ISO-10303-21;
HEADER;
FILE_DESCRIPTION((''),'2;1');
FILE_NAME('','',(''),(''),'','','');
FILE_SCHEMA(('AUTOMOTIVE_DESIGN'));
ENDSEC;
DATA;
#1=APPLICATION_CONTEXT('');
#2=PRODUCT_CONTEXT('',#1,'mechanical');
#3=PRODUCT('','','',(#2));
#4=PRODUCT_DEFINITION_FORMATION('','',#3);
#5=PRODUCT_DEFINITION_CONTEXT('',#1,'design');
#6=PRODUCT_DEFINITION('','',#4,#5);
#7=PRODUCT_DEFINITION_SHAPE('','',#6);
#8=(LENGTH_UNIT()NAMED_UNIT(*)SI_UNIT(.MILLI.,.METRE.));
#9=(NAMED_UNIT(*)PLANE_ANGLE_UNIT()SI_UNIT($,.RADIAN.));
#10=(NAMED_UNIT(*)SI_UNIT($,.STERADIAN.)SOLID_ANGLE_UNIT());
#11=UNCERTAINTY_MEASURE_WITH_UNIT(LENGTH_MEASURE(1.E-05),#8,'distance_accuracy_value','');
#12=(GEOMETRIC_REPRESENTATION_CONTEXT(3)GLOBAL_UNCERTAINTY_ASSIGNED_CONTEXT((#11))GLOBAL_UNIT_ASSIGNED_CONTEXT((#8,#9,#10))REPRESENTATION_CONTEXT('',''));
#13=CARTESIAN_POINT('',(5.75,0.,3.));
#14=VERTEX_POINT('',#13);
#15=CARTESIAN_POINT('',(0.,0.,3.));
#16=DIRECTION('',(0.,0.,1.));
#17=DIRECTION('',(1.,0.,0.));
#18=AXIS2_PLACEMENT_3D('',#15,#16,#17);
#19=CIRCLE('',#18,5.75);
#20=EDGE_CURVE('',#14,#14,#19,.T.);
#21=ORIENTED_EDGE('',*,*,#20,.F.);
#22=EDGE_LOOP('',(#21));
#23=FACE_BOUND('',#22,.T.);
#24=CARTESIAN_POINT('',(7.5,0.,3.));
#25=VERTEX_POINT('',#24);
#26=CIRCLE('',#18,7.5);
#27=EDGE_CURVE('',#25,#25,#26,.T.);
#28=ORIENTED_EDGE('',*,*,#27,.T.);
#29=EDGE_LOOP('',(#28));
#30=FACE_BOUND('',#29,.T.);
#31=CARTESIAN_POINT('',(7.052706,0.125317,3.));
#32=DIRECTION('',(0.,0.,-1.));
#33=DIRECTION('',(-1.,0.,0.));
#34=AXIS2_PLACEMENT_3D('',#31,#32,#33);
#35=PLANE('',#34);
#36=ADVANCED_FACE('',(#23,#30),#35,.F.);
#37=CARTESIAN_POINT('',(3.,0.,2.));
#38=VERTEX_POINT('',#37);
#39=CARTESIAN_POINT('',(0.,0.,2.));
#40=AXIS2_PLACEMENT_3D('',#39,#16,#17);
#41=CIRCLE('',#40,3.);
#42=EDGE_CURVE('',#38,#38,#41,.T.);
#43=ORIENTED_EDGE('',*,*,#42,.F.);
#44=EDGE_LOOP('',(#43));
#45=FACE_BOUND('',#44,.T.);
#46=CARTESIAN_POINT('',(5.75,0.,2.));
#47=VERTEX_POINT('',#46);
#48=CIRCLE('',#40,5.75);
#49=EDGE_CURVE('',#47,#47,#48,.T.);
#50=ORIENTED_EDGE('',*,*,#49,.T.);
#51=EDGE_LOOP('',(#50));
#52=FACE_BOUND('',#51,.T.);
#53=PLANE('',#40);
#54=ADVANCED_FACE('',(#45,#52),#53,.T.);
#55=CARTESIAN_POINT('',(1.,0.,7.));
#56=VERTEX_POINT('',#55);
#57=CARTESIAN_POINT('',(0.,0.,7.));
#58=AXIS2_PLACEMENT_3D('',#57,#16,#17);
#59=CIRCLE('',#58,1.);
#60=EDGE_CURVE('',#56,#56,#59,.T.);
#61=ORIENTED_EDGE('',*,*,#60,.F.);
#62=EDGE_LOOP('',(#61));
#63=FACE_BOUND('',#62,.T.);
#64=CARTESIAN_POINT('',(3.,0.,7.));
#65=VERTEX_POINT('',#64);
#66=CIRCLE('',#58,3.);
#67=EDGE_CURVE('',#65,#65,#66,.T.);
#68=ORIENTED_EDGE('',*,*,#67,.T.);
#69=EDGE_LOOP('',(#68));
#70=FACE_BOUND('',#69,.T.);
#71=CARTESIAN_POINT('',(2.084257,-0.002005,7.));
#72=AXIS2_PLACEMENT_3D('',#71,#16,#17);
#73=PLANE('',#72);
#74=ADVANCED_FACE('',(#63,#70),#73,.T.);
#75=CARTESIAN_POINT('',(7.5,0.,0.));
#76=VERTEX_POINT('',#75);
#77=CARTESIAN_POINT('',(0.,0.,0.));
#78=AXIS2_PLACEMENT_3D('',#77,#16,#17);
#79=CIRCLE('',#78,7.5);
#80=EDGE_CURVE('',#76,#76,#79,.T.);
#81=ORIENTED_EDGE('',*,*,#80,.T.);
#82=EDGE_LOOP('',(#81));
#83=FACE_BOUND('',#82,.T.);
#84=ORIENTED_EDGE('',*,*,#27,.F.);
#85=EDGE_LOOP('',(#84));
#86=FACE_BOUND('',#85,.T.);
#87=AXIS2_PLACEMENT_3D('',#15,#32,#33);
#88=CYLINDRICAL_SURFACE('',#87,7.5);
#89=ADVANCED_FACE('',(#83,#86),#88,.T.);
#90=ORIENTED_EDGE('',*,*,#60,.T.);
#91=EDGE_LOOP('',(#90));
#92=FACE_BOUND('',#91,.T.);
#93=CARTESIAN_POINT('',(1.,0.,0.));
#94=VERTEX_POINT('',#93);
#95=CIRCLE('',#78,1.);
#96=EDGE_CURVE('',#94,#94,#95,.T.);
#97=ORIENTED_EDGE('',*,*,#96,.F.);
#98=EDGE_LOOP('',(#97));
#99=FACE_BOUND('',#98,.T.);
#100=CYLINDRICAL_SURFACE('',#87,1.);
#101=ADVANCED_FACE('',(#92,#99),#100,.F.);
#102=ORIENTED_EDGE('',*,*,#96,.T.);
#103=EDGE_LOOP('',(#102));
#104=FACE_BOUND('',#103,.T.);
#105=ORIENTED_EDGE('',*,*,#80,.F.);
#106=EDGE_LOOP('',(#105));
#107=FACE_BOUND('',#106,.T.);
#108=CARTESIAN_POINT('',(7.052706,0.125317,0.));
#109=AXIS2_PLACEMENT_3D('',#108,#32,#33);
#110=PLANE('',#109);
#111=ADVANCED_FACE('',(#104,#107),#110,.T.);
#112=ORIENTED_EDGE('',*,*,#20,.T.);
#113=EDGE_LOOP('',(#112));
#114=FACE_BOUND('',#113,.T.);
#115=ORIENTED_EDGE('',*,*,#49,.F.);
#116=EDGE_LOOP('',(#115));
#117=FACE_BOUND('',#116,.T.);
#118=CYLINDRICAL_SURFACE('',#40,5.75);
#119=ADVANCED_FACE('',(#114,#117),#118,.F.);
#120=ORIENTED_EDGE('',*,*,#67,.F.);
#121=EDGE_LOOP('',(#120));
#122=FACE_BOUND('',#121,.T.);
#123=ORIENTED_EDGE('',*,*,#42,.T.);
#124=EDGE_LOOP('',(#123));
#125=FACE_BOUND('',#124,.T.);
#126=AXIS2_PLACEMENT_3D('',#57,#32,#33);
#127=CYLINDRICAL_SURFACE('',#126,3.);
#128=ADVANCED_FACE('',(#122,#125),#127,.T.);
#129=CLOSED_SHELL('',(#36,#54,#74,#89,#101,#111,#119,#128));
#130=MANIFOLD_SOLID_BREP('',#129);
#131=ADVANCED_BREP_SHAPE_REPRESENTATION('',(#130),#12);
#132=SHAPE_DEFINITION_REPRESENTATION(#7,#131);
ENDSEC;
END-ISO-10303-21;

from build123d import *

# Parameters (mm, degrees)
ESQUISSE1_R             = 1
BOSS_EXTRU_1_DEPTH      = 3
ESQUISSE2_R             = 5.75
ENL_V_MAT_EXTRU_1_DEPTH = 1
ESQUISSE3_R             = 1
BOSS_EXTRU_2_DEPTH      = 5
BOSS_EXTRU_3_START      = -3
ESQUISSE4_R             = 7.5
ESQUISSE4_R_2           = 5.75
BOSS_EXTRU_3_DEPTH      = 3
BOSS_EXTRU_4_START      = -5
ESQUISSE5_R             = 3
ESQUISSE5_R_2           = 1
BOSS_EXTRU_4_DEPTH      = 5


with BuildPart() as part:
    # Esquisse1 → Boss.-Extru.1 (new body)
    with BuildSketch(Plane.XY):
        with BuildLine():
            ThreePointArc((7.491868518, 0.349150543), (7.48109955, 0.532117964), (7.465862795, 0.714767599))
            add(Edge.make_bspline(
                [(6.511775734, 0.931053619), (6.54533459, 0.935851864), (6.691230758, 0.932883331), (6.92755526, 0.897904294), (7.210754579, 0.816287714), (7.382633754, 0.750372838), (7.465862795, 0.714767599)],
                knots=[0, 0, 0, 0, 0.101700454, 0.434977009, 0.714423103, 0.984887496, 0.984887496, 0.984887496, 0.984887496], degree=3))
            ThreePointArc((6.511775734, 0.931053619), (6.361956751, 0.966352964), (6.279971624, 1.096622724))
            ThreePointArc((6.279971624, 1.096622724), (6.268309408, 1.161431083), (6.255978398, 1.226115524))
            ThreePointArc((6.255978398, 1.226115524), (6.285849036, 1.377110609), (6.413075806, 1.463742704))
            add(Edge.make_bspline(
                [(6.413075806, 1.463742704), (6.44612601, 1.471286197), (6.581273617, 1.526328257), (6.789378175, 1.643653855), (7.024536913, 1.821315017), (7.161390753, 1.944433854), (7.226338428, 2.00749419)],
                knots=[0, 0, 0, 0, 0.101700454, 0.434977009, 0.714423103, 0.984887496, 0.984887496, 0.984887496, 0.984887496], degree=3))
            ThreePointArc((7.226338428, 2.00749419), (7.175125379, 2.183477914), (7.119627274, 2.358157645))
            add(Edge.make_bspline(
                [(6.141333, 2.356716579), (6.172982756, 2.36886207), (6.315881563, 2.398432916), (6.554064484, 2.416918025), (6.848324803, 2.40036552), (7.030562047, 2.374349982), (7.119627274, 2.358157645)],
                knots=[0, 0, 0, 0, 0.101700454, 0.434977009, 0.714423103, 0.984887496, 0.984887496, 0.984887496, 0.984887496], degree=3))
            ThreePointArc((6.141333, 2.356716579), (5.987415449, 2.357793036), (5.878498112, 2.466553254))
            ThreePointArc((5.878498112, 2.466553254), (5.852707075, 2.527141645), (5.826291587, 2.587460404))
            ThreePointArc((5.826291587, 2.587460404), (5.821813738, 2.741316569), (5.926573213, 2.854087236))
            add(Edge.make_bspline(
                [(5.926573213, 2.854087236), (5.957116194, 2.86879596), (6.076627358, 2.952531173), (6.253406899, 3.113222794), (6.443136388, 3.338757362), (6.549162498, 3.489242196), (6.598449554, 3.565173695)],
                knots=[0, 0, 0, 0, 0.101700454, 0.434977009, 0.714423103, 0.984887496, 0.984887496, 0.984887496, 0.984887496], degree=3))
            ThreePointArc((6.598449554, 3.565173695), (6.50936046, 3.725349165), (6.416383912, 3.88329982))
            add(Edge.make_bspline(
                [(5.462938185, 3.664203929), (5.49109179, 3.683087641), (5.623827693, 3.743715059), (5.851925548, 3.814737394), (6.142491424, 3.864078976), (6.325948603, 3.879267303), (6.416383912, 3.88329982)],
                knots=[0, 0, 0, 0, 0.101700454, 0.434977009, 0.714423103, 0.984887496, 0.984887496, 0.984887496, 0.984887496], degree=3))
            ThreePointArc((5.462938185, 3.664203929), (5.312640134, 3.631003519), (5.182252157, 3.712800504))
            ThreePointArc((5.182252157, 3.712800504), (5.14362557, 3.766130772), (5.104450187, 3.819059215))
            ThreePointArc((5.104450187, 3.819059215), (5.06584839, 3.96806147), (5.142887492, 4.101315917))
            add(Edge.make_bspline(
                [(5.142887492, 4.101315917), (5.169391697, 4.122452315), (5.267273629, 4.230681847), (5.403863688, 4.426681742), (5.5386501, 4.688780471), (5.608531889, 4.859085365), (5.639686867, 4.944080505)],
                knots=[0, 0, 0, 0, 0.101700454, 0.434977009, 0.714423103, 0.984887496, 0.984887496, 0.984887496, 0.984887496], degree=3))
            ThreePointArc((5.639686867, 4.944080505), (5.517189028, 5.080415852), (5.391396269, 5.213717126))
            add(Edge.make_bspline(
                [(4.510608839, 4.787952794), (4.533854553, 4.812627817), (4.64977162, 4.901271697), (4.856346629, 5.021269902), (5.128647877, 5.134031378), (5.30412568, 5.189661964), (5.391396269, 5.213717126)],
                knots=[0, 0, 0, 0, 0.101700454, 0.434977009, 0.714423103, 0.984887496, 0.984887496, 0.984887496, 0.984887496], degree=3))
            ThreePointArc((4.510608839, 4.787952794), (4.37146686, 4.722140325), (4.22614644, 4.772872434))
            ThreePointArc((4.22614644, 4.772872434), (4.176621201, 4.816270376), (4.12665034, 4.85915445))
            ThreePointArc((4.12665034, 4.85915445), (4.05586025, 4.995831199), (4.101315917, 5.142887492))
            add(Edge.make_bspline(
                [(4.101315917, 5.142887492), (4.122452315, 5.169391697), (4.193796806, 5.296688467), (4.283348187, 5.518168384), (4.356432769, 5.803688548), (4.386666071, 5.985273704), (4.398126732, 6.075070473)],
                knots=[0, 0, 0, 0, 0.101700454, 0.434977009, 0.714423103, 0.984887496, 0.984887496, 0.984887496, 0.984887496], degree=3))
            ThreePointArc((4.398126732, 6.075070473), (4.248362699, 6.180729275), (4.096061504, 6.282696886))
            add(Edge.make_bspline(
                [(3.332098731, 5.671613712), (3.349270916, 5.700842739), (3.442556582, 5.813058106), (3.617250211, 5.976014969), (3.85763251, 6.146542008), (4.016331748, 6.239825304), (4.096061504, 6.282696886)],
                knots=[0, 0, 0, 0, 0.101700454, 0.434977009, 0.714423103, 0.984887496, 0.984887496, 0.984887496, 0.984887496], degree=3))
            ThreePointArc((3.332098731, 5.671613712), (3.211089984, 5.576489296), (3.058124094, 5.59361261))
            ThreePointArc((3.058124094, 5.59361261), (3.000183606, 5.624902073), (2.941923014, 5.655591391))
            ThreePointArc((2.941923014, 5.655591391), (2.842494341, 5.773089092), (2.854087236, 5.926573213))
            add(Edge.make_bspline(
                [(2.854087236, 5.926573213), (2.86879596, 5.957116194), (2.9100255, 6.097097011), (2.948047723, 6.33295102), (2.955765708, 6.627575448), (2.9448345, 6.811335427), (2.936026156, 6.901431041)],
                knots=[0, 0, 0, 0, 0.101700454, 0.434977009, 0.714423103, 0.984887496, 0.984887496, 0.984887496, 0.984887496], degree=3))
            ThreePointArc((2.936026156, 6.901431041), (2.766505726, 6.971115124), (2.595333111, 7.036635989))
            add(Edge.make_bspline(
                [(1.986503278, 6.270876237), (1.996740851, 6.303193602), (2.062717382, 6.433353509), (2.196769764, 6.631097693), (2.393179341, 6.850839356), (2.527142172, 6.977097748), (2.595333111, 7.036635989)],
                knots=[0, 0, 0, 0, 0.101700454, 0.434977009, 0.714423103, 0.984887496, 0.984887496, 0.984887496, 0.984887496], degree=3))
            ThreePointArc((1.986503278, 6.270876237), (1.889695647, 6.151209809), (1.736754636, 6.133865693))
            ThreePointArc((1.736754636, 6.133865693), (1.673304276, 6.151477692), (1.609675384, 6.168433363))
            ThreePointArc((1.609675384, 6.168433363), (1.486593897, 6.26086019), (1.463742704, 6.413075806))
            add(Edge.make_bspline(
                [(1.463742704, 6.413075806), (1.471286197, 6.44612601), (1.480333363, 6.591771651), (1.464919836, 6.830173049), (1.406884212, 7.11912804), (1.35533663, 7.295848351), (1.32670097, 7.381725038)],
                knots=[0, 0, 0, 0, 0.101700454, 0.434977009, 0.714423103, 0.984887496, 0.984887496, 0.984887496, 0.984887496], degree=3))
            ThreePointArc((1.32670097, 7.381725038), (1.145924603, 7.411940151), (0.964463879, 7.437728781))
            add(Edge.make_bspline(
                [(0.541296257, 6.555690842), (0.544085862, 6.589476018), (0.57944492, 6.731053703), (0.666134108, 6.953669488), (0.808722167, 7.211607012), (0.911231134, 7.364509376), (0.964463879, 7.437728781)],
                knots=[0, 0, 0, 0, 0.101700454, 0.434977009, 0.714423103, 0.984887496, 0.984887496, 0.984887496, 0.984887496], degree=3))
            ThreePointArc((0.541296257, 6.555690842), (0.47354408, 6.417482977), (0.328297049, 6.366541137))
            ThreePointArc((0.328297049, 6.366541137), (0.262518483, 6.369592534), (0.196711908, 6.37196433))
            ThreePointArc((0.196711908, 6.37196433), (0.056149427, 6.434685616), (0, 6.578))
            add(Edge.make_bspline(
                [(0, 6.578), (0, 6.611900151), (-0.023588869, 6.755907336), (-0.091665249, 6.984901681), (-0.212544333, 7.253697825), (-0.302123478, 7.414516973), (-0.349150543, 7.491868518)],
                knots=[0, 0, 0, 0, 0.101700454, 0.434977009, 0.714423103, 0.984887496, 0.984887496, 0.984887496, 0.984887496], degree=3))
            ThreePointArc((-0.349150543, 7.491868518), (-0.532117964, 7.48109955), (-0.714767599, 7.465862795))
            add(Edge.make_bspline(
                [(-0.931053619, 6.511775734), (-0.935851864, 6.54533459), (-0.932883331, 6.691230758), (-0.897904294, 6.92755526), (-0.816287714, 7.210754579), (-0.750372838, 7.382633754), (-0.714767599, 7.465862795)],
                knots=[0, 0, 0, 0, 0.101700454, 0.434977009, 0.714423103, 0.984887496, 0.984887496, 0.984887496, 0.984887496], degree=3))
            ThreePointArc((-0.931053619, 6.511775734), (-0.966352964, 6.361956751), (-1.096622724, 6.279971624))
            ThreePointArc((-1.096622724, 6.279971624), (-1.161431083, 6.268309408), (-1.226115524, 6.255978398))
            ThreePointArc((-1.226115524, 6.255978398), (-1.377110609, 6.285849036), (-1.463742704, 6.413075806))
            add(Edge.make_bspline(
                [(-1.463742704, 6.413075806), (-1.471286197, 6.44612601), (-1.526328257, 6.581273617), (-1.643653855, 6.789378175), (-1.821315017, 7.024536913), (-1.944433854, 7.161390753), (-2.00749419, 7.226338428)],
                knots=[0, 0, 0, 0, 0.101700454, 0.434977009, 0.714423103, 0.984887496, 0.984887496, 0.984887496, 0.984887496], degree=3))
            ThreePointArc((-2.00749419, 7.226338428), (-2.183477914, 7.175125379), (-2.358157645, 7.119627274))
            add(Edge.make_bspline(
                [(-2.356716579, 6.141333), (-2.36886207, 6.172982756), (-2.398432916, 6.315881563), (-2.416918025, 6.554064484), (-2.40036552, 6.848324803), (-2.374349982, 7.030562047), (-2.358157645, 7.119627274)],
                knots=[0, 0, 0, 0, 0.101700454, 0.434977009, 0.714423103, 0.984887496, 0.984887496, 0.984887496, 0.984887496], degree=3))
            ThreePointArc((-2.356716579, 6.141333), (-2.357793036, 5.987415449), (-2.466553254, 5.878498112))
            ThreePointArc((-2.466553254, 5.878498112), (-2.527141645, 5.852707075), (-2.587460404, 5.826291587))
            ThreePointArc((-2.587460404, 5.826291587), (-2.741316569, 5.821813738), (-2.854087236, 5.926573213))
            add(Edge.make_bspline(
                [(-2.854087236, 5.926573213), (-2.86879596, 5.957116194), (-2.952531173, 6.076627358), (-3.113222794, 6.253406899), (-3.338757362, 6.443136388), (-3.489242196, 6.549162498), (-3.565173695, 6.598449554)],
                knots=[0, 0, 0, 0, 0.101700454, 0.434977009, 0.714423103, 0.984887496, 0.984887496, 0.984887496, 0.984887496], degree=3))
            ThreePointArc((-3.565173695, 6.598449554), (-3.725349165, 6.50936046), (-3.88329982, 6.416383912))
            add(Edge.make_bspline(
                [(-3.664203929, 5.462938185), (-3.683087641, 5.49109179), (-3.743715059, 5.623827693), (-3.814737394, 5.851925548), (-3.864078976, 6.142491424), (-3.879267303, 6.325948603), (-3.88329982, 6.416383912)],
                knots=[0, 0, 0, 0, 0.101700454, 0.434977009, 0.714423103, 0.984887496, 0.984887496, 0.984887496, 0.984887496], degree=3))
            ThreePointArc((-3.664203929, 5.462938185), (-3.631003519, 5.312640134), (-3.712800504, 5.182252157))
            ThreePointArc((-3.712800504, 5.182252157), (-3.766130772, 5.14362557), (-3.819059215, 5.104450187))
            ThreePointArc((-3.819059215, 5.104450187), (-3.96806147, 5.06584839), (-4.101315917, 5.142887492))
            add(Edge.make_bspline(
                [(-4.101315917, 5.142887492), (-4.122452315, 5.169391697), (-4.230681847, 5.267273629), (-4.426681742, 5.403863688), (-4.688780471, 5.5386501), (-4.859085365, 5.608531889), (-4.944080505, 5.639686867)],
                knots=[0, 0, 0, 0, 0.101700454, 0.434977009, 0.714423103, 0.984887496, 0.984887496, 0.984887496, 0.984887496], degree=3))
            ThreePointArc((-4.944080505, 5.639686867), (-5.080415852, 5.517189028), (-5.213717126, 5.391396269))
            add(Edge.make_bspline(
                [(-4.787952794, 4.510608839), (-4.812627817, 4.533854553), (-4.901271697, 4.64977162), (-5.021269902, 4.856346629), (-5.134031378, 5.128647877), (-5.189661964, 5.30412568), (-5.213717126, 5.391396269)],
                knots=[0, 0, 0, 0, 0.101700454, 0.434977009, 0.714423103, 0.984887496, 0.984887496, 0.984887496, 0.984887496], degree=3))
            ThreePointArc((-4.787952794, 4.510608839), (-4.722140325, 4.37146686), (-4.772872434, 4.22614644))
            ThreePointArc((-4.772872434, 4.22614644), (-4.816270376, 4.176621201), (-4.85915445, 4.12665034))
            ThreePointArc((-4.85915445, 4.12665034), (-4.995831199, 4.05586025), (-5.142887492, 4.101315917))
            add(Edge.make_bspline(
                [(-5.142887492, 4.101315917), (-5.169391697, 4.122452315), (-5.296688467, 4.193796806), (-5.518168384, 4.283348187), (-5.803688548, 4.356432769), (-5.985273704, 4.386666071), (-6.075070473, 4.398126732)],
                knots=[0, 0, 0, 0, 0.101700454, 0.434977009, 0.714423103, 0.984887496, 0.984887496, 0.984887496, 0.984887496], degree=3))
            ThreePointArc((-6.075070473, 4.398126732), (-6.180729275, 4.248362699), (-6.282696886, 4.096061504))
            add(Edge.make_bspline(
                [(-5.671613712, 3.332098731), (-5.700842739, 3.349270916), (-5.813058106, 3.442556582), (-5.976014969, 3.617250211), (-6.146542008, 3.85763251), (-6.239825304, 4.016331748), (-6.282696886, 4.096061504)],
                knots=[0, 0, 0, 0, 0.101700454, 0.434977009, 0.714423103, 0.984887496, 0.984887496, 0.984887496, 0.984887496], degree=3))
            ThreePointArc((-5.671613712, 3.332098731), (-5.576489296, 3.211089984), (-5.59361261, 3.058124094))
            ThreePointArc((-5.59361261, 3.058124094), (-5.624902073, 3.000183606), (-5.655591391, 2.941923014))
            ThreePointArc((-5.655591391, 2.941923014), (-5.773089092, 2.842494341), (-5.926573213, 2.854087236))
            add(Edge.make_bspline(
                [(-5.926573213, 2.854087236), (-5.957116194, 2.86879596), (-6.097097011, 2.9100255), (-6.33295102, 2.948047723), (-6.627575448, 2.955765708), (-6.811335427, 2.9448345), (-6.901431041, 2.936026156)],
                knots=[0, 0, 0, 0, 0.101700454, 0.434977009, 0.714423103, 0.984887496, 0.984887496, 0.984887496, 0.984887496], degree=3))
            ThreePointArc((-6.901431041, 2.936026156), (-6.971115124, 2.766505726), (-7.036635989, 2.595333111))
            add(Edge.make_bspline(
                [(-6.270876237, 1.986503278), (-6.303193602, 1.996740851), (-6.433353509, 2.062717382), (-6.631097693, 2.196769764), (-6.850839356, 2.393179341), (-6.977097748, 2.527142172), (-7.036635989, 2.595333111)],
                knots=[0, 0, 0, 0, 0.101700454, 0.434977009, 0.714423103, 0.984887496, 0.984887496, 0.984887496, 0.984887496], degree=3))
            ThreePointArc((-6.270876237, 1.986503278), (-6.151209809, 1.889695647), (-6.133865693, 1.736754636))
            ThreePointArc((-6.133865693, 1.736754636), (-6.151477692, 1.673304276), (-6.168433363, 1.609675384))
            ThreePointArc((-6.168433363, 1.609675384), (-6.26086019, 1.486593897), (-6.413075806, 1.463742704))
            add(Edge.make_bspline(
                [(-6.413075806, 1.463742704), (-6.44612601, 1.471286197), (-6.591771651, 1.480333363), (-6.830173049, 1.464919836), (-7.11912804, 1.406884212), (-7.295848351, 1.35533663), (-7.381725038, 1.32670097)],
                knots=[0, 0, 0, 0, 0.101700454, 0.434977009, 0.714423103, 0.984887496, 0.984887496, 0.984887496, 0.984887496], degree=3))
            ThreePointArc((-7.381725038, 1.32670097), (-7.411940151, 1.145924603), (-7.437728781, 0.964463879))
            add(Edge.make_bspline(
                [(-6.555690842, 0.541296257), (-6.589476018, 0.544085862), (-6.731053703, 0.57944492), (-6.953669488, 0.666134108), (-7.211607012, 0.808722167), (-7.364509376, 0.911231134), (-7.437728781, 0.964463879)],
                knots=[0, 0, 0, 0, 0.101700454, 0.434977009, 0.714423103, 0.984887496, 0.984887496, 0.984887496, 0.984887496], degree=3))
            ThreePointArc((-6.555690842, 0.541296257), (-6.417482977, 0.47354408), (-6.366541137, 0.328297049))
            ThreePointArc((-6.366541137, 0.328297049), (-6.369592534, 0.262518483), (-6.37196433, 0.196711908))
            ThreePointArc((-6.37196433, 0.196711908), (-6.434685616, 0.056149427), (-6.578, 0))
            add(Edge.make_bspline(
                [(-6.578, 0), (-6.611900151, 0), (-6.755907336, -0.023588869), (-6.984901681, -0.091665249), (-7.253697825, -0.212544333), (-7.414516973, -0.302123478), (-7.491868518, -0.349150543)],
                knots=[0, 0, 0, 0, 0.101700454, 0.434977009, 0.714423103, 0.984887496, 0.984887496, 0.984887496, 0.984887496], degree=3))
            ThreePointArc((-7.491868518, -0.349150543), (-7.48109955, -0.532117964), (-7.465862795, -0.714767599))
            add(Edge.make_bspline(
                [(-6.511775734, -0.931053619), (-6.54533459, -0.935851864), (-6.691230758, -0.932883331), (-6.92755526, -0.897904294), (-7.210754579, -0.816287714), (-7.382633754, -0.750372838), (-7.465862795, -0.714767599)],
                knots=[0, 0, 0, 0, 0.101700454, 0.434977009, 0.714423103, 0.984887496, 0.984887496, 0.984887496, 0.984887496], degree=3))
            ThreePointArc((-6.511775734, -0.931053619), (-6.361956751, -0.966352964), (-6.279971624, -1.096622724))
            ThreePointArc((-6.279971624, -1.096622724), (-6.268309408, -1.161431083), (-6.255978398, -1.226115524))
            ThreePointArc((-6.255978398, -1.226115524), (-6.285849036, -1.377110609), (-6.413075806, -1.463742704))
            add(Edge.make_bspline(
                [(-6.413075806, -1.463742704), (-6.44612601, -1.471286197), (-6.581273617, -1.526328257), (-6.789378175, -1.643653855), (-7.024536913, -1.821315017), (-7.161390753, -1.944433854), (-7.226338428, -2.00749419)],
                knots=[0, 0, 0, 0, 0.101700454, 0.434977009, 0.714423103, 0.984887496, 0.984887496, 0.984887496, 0.984887496], degree=3))
            ThreePointArc((-7.226338428, -2.00749419), (-7.175125379, -2.183477914), (-7.119627274, -2.358157645))
            add(Edge.make_bspline(
                [(-6.141333, -2.356716579), (-6.172982756, -2.36886207), (-6.315881563, -2.398432916), (-6.554064484, -2.416918025), (-6.848324803, -2.40036552), (-7.030562047, -2.374349982), (-7.119627274, -2.358157645)],
                knots=[0, 0, 0, 0, 0.101700454, 0.434977009, 0.714423103, 0.984887496, 0.984887496, 0.984887496, 0.984887496], degree=3))
            ThreePointArc((-6.141333, -2.356716579), (-5.987415449, -2.357793036), (-5.878498112, -2.466553254))
            ThreePointArc((-5.878498112, -2.466553254), (-5.852707075, -2.527141645), (-5.826291587, -2.587460404))
            ThreePointArc((-5.826291587, -2.587460404), (-5.821813738, -2.741316569), (-5.926573213, -2.854087236))
            add(Edge.make_bspline(
                [(-5.926573213, -2.854087236), (-5.957116194, -2.86879596), (-6.076627358, -2.952531173), (-6.253406899, -3.113222794), (-6.443136388, -3.338757362), (-6.549162498, -3.489242196), (-6.598449554, -3.565173695)],
                knots=[0, 0, 0, 0, 0.101700454, 0.434977009, 0.714423103, 0.984887496, 0.984887496, 0.984887496, 0.984887496], degree=3))
            ThreePointArc((-6.598449554, -3.565173695), (-6.50936046, -3.725349165), (-6.416383912, -3.88329982))
            add(Edge.make_bspline(
                [(-5.462938185, -3.664203929), (-5.49109179, -3.683087641), (-5.623827693, -3.743715059), (-5.851925548, -3.814737394), (-6.142491424, -3.864078976), (-6.325948603, -3.879267303), (-6.416383912, -3.88329982)],
                knots=[0, 0, 0, 0, 0.101700454, 0.434977009, 0.714423103, 0.984887496, 0.984887496, 0.984887496, 0.984887496], degree=3))
            ThreePointArc((-5.462938185, -3.664203929), (-5.312640134, -3.631003519), (-5.182252157, -3.712800504))
            ThreePointArc((-5.182252157, -3.712800504), (-5.14362557, -3.766130772), (-5.104450187, -3.819059215))
            ThreePointArc((-5.104450187, -3.819059215), (-5.06584839, -3.96806147), (-5.142887492, -4.101315917))
            add(Edge.make_bspline(
                [(-5.142887492, -4.101315917), (-5.169391697, -4.122452315), (-5.267273629, -4.230681847), (-5.403863688, -4.426681742), (-5.5386501, -4.688780471), (-5.608531889, -4.859085365), (-5.639686867, -4.944080505)],
                knots=[0, 0, 0, 0, 0.101700454, 0.434977009, 0.714423103, 0.984887496, 0.984887496, 0.984887496, 0.984887496], degree=3))
            ThreePointArc((-5.639686867, -4.944080505), (-5.517189028, -5.080415852), (-5.391396269, -5.213717126))
            add(Edge.make_bspline(
                [(-4.510608839, -4.787952794), (-4.533854553, -4.812627817), (-4.64977162, -4.901271697), (-4.856346629, -5.021269902), (-5.128647877, -5.134031378), (-5.30412568, -5.189661964), (-5.391396269, -5.213717126)],
                knots=[0, 0, 0, 0, 0.101700454, 0.434977009, 0.714423103, 0.984887496, 0.984887496, 0.984887496, 0.984887496], degree=3))
            ThreePointArc((-4.510608839, -4.787952794), (-4.37146686, -4.722140325), (-4.22614644, -4.772872434))
            ThreePointArc((-4.22614644, -4.772872434), (-4.176621201, -4.816270376), (-4.12665034, -4.85915445))
            ThreePointArc((-4.12665034, -4.85915445), (-4.05586025, -4.995831199), (-4.101315917, -5.142887492))
            add(Edge.make_bspline(
                [(-4.101315917, -5.142887492), (-4.122452315, -5.169391697), (-4.193796806, -5.296688467), (-4.283348187, -5.518168384), (-4.356432769, -5.803688548), (-4.386666071, -5.985273704), (-4.398126732, -6.075070473)],
                knots=[0, 0, 0, 0, 0.101700454, 0.434977009, 0.714423103, 0.984887496, 0.984887496, 0.984887496, 0.984887496], degree=3))
            ThreePointArc((-4.398126732, -6.075070473), (-4.248362699, -6.180729275), (-4.096061504, -6.282696886))
            add(Edge.make_bspline(
                [(-3.332098731, -5.671613712), (-3.349270916, -5.700842739), (-3.442556582, -5.813058106), (-3.617250211, -5.976014969), (-3.85763251, -6.146542008), (-4.016331748, -6.239825304), (-4.096061504, -6.282696886)],
                knots=[0, 0, 0, 0, 0.101700454, 0.434977009, 0.714423103, 0.984887496, 0.984887496, 0.984887496, 0.984887496], degree=3))
            ThreePointArc((-3.332098731, -5.671613712), (-3.211089984, -5.576489296), (-3.058124094, -5.59361261))
            ThreePointArc((-3.058124094, -5.59361261), (-3.000183606, -5.624902073), (-2.941923014, -5.655591391))
            ThreePointArc((-2.941923014, -5.655591391), (-2.842494341, -5.773089092), (-2.854087236, -5.926573213))
            add(Edge.make_bspline(
                [(-2.854087236, -5.926573213), (-2.86879596, -5.957116194), (-2.9100255, -6.097097011), (-2.948047723, -6.33295102), (-2.955765708, -6.627575448), (-2.9448345, -6.811335427), (-2.936026156, -6.901431041)],
                knots=[0, 0, 0, 0, 0.101700454, 0.434977009, 0.714423103, 0.984887496, 0.984887496, 0.984887496, 0.984887496], degree=3))
            ThreePointArc((-2.936026156, -6.901431041), (-2.766505726, -6.971115124), (-2.595333111, -7.036635989))
            add(Edge.make_bspline(
                [(-1.986503278, -6.270876237), (-1.996740851, -6.303193602), (-2.062717382, -6.433353509), (-2.196769764, -6.631097693), (-2.393179341, -6.850839356), (-2.527142172, -6.977097748), (-2.595333111, -7.036635989)],
                knots=[0, 0, 0, 0, 0.101700454, 0.434977009, 0.714423103, 0.984887496, 0.984887496, 0.984887496, 0.984887496], degree=3))
            ThreePointArc((-1.986503278, -6.270876237), (-1.889695647, -6.151209809), (-1.736754636, -6.133865693))
            ThreePointArc((-1.736754636, -6.133865693), (-1.673304276, -6.151477692), (-1.609675384, -6.168433363))
            ThreePointArc((-1.609675384, -6.168433363), (-1.486593897, -6.26086019), (-1.463742704, -6.413075806))
            add(Edge.make_bspline(
                [(-1.463742704, -6.413075806), (-1.471286197, -6.44612601), (-1.480333363, -6.591771651), (-1.464919836, -6.830173049), (-1.406884212, -7.11912804), (-1.35533663, -7.295848351), (-1.32670097, -7.381725038)],
                knots=[0, 0, 0, 0, 0.101700454, 0.434977009, 0.714423103, 0.984887496, 0.984887496, 0.984887496, 0.984887496], degree=3))
            ThreePointArc((-1.32670097, -7.381725038), (-1.145924603, -7.411940151), (-0.964463879, -7.437728781))
            add(Edge.make_bspline(
                [(-0.541296257, -6.555690842), (-0.544085862, -6.589476018), (-0.57944492, -6.731053703), (-0.666134108, -6.953669488), (-0.808722167, -7.211607012), (-0.911231134, -7.364509376), (-0.964463879, -7.437728781)],
                knots=[0, 0, 0, 0, 0.101700454, 0.434977009, 0.714423103, 0.984887496, 0.984887496, 0.984887496, 0.984887496], degree=3))
            ThreePointArc((-0.541296257, -6.555690842), (-0.47354408, -6.417482977), (-0.328297049, -6.366541137))
            ThreePointArc((-0.328297049, -6.366541137), (-0.262518483, -6.369592534), (-0.196711908, -6.37196433))
            ThreePointArc((-0.196711908, -6.37196433), (-0.056149427, -6.434685616), (0, -6.578))
            add(Edge.make_bspline(
                [(0, -6.578), (0, -6.611900151), (0.023588869, -6.755907336), (0.091665249, -6.984901681), (0.212544333, -7.253697825), (0.302123478, -7.414516973), (0.349150543, -7.491868518)],
                knots=[0, 0, 0, 0, 0.101700454, 0.434977009, 0.714423103, 0.984887496, 0.984887496, 0.984887496, 0.984887496], degree=3))
            ThreePointArc((0.349150543, -7.491868518), (0.532117964, -7.48109955), (0.714767599, -7.465862795))
            add(Edge.make_bspline(
                [(0.931053619, -6.511775734), (0.935851864, -6.54533459), (0.932883331, -6.691230758), (0.897904294, -6.92755526), (0.816287714, -7.210754579), (0.750372838, -7.382633754), (0.714767599, -7.465862795)],
                knots=[0, 0, 0, 0, 0.101700454, 0.434977009, 0.714423103, 0.984887496, 0.984887496, 0.984887496, 0.984887496], degree=3))
            ThreePointArc((0.931053619, -6.511775734), (0.966352964, -6.361956751), (1.096622724, -6.279971624))
            ThreePointArc((1.096622724, -6.279971624), (1.161431083, -6.268309408), (1.226115524, -6.255978398))
            ThreePointArc((1.226115524, -6.255978398), (1.377110609, -6.285849036), (1.463742704, -6.413075806))
            add(Edge.make_bspline(
                [(1.463742704, -6.413075806), (1.471286197, -6.44612601), (1.526328257, -6.581273617), (1.643653855, -6.789378175), (1.821315017, -7.024536913), (1.944433854, -7.161390753), (2.00749419, -7.226338428)],
                knots=[0, 0, 0, 0, 0.101700454, 0.434977009, 0.714423103, 0.984887496, 0.984887496, 0.984887496, 0.984887496], degree=3))
            ThreePointArc((2.00749419, -7.226338428), (2.183477914, -7.175125379), (2.358157645, -7.119627274))
            add(Edge.make_bspline(
                [(2.356716579, -6.141333), (2.36886207, -6.172982756), (2.398432916, -6.315881563), (2.416918025, -6.554064484), (2.40036552, -6.848324803), (2.374349982, -7.030562047), (2.358157645, -7.119627274)],
                knots=[0, 0, 0, 0, 0.101700454, 0.434977009, 0.714423103, 0.984887496, 0.984887496, 0.984887496, 0.984887496], degree=3))
            ThreePointArc((2.356716579, -6.141333), (2.357793036, -5.987415449), (2.466553254, -5.878498112))
            ThreePointArc((2.466553254, -5.878498112), (2.527141645, -5.852707075), (2.587460404, -5.826291587))
            ThreePointArc((2.587460404, -5.826291587), (2.741316569, -5.821813738), (2.854087236, -5.926573213))
            add(Edge.make_bspline(
                [(2.854087236, -5.926573213), (2.86879596, -5.957116194), (2.952531173, -6.076627358), (3.113222794, -6.253406899), (3.338757362, -6.443136388), (3.489242196, -6.549162498), (3.565173695, -6.598449554)],
                knots=[0, 0, 0, 0, 0.101700454, 0.434977009, 0.714423103, 0.984887496, 0.984887496, 0.984887496, 0.984887496], degree=3))
            ThreePointArc((3.565173695, -6.598449554), (3.725349165, -6.50936046), (3.88329982, -6.416383912))
            add(Edge.make_bspline(
                [(3.664203929, -5.462938185), (3.683087641, -5.49109179), (3.743715059, -5.623827693), (3.814737394, -5.851925548), (3.864078976, -6.142491424), (3.879267303, -6.325948603), (3.88329982, -6.416383912)],
                knots=[0, 0, 0, 0, 0.101700454, 0.434977009, 0.714423103, 0.984887496, 0.984887496, 0.984887496, 0.984887496], degree=3))
            ThreePointArc((3.664203929, -5.462938185), (3.631003519, -5.312640134), (3.712800504, -5.182252157))
            ThreePointArc((3.712800504, -5.182252157), (3.766130772, -5.14362557), (3.819059215, -5.104450187))
            ThreePointArc((3.819059215, -5.104450187), (3.96806147, -5.06584839), (4.101315917, -5.142887492))
            add(Edge.make_bspline(
                [(4.101315917, -5.142887492), (4.122452315, -5.169391697), (4.230681847, -5.267273629), (4.426681742, -5.403863688), (4.688780471, -5.5386501), (4.859085365, -5.608531889), (4.944080505, -5.639686867)],
                knots=[0, 0, 0, 0, 0.101700454, 0.434977009, 0.714423103, 0.984887496, 0.984887496, 0.984887496, 0.984887496], degree=3))
            ThreePointArc((4.944080505, -5.639686867), (5.080415852, -5.517189028), (5.213717126, -5.391396269))
            add(Edge.make_bspline(
                [(4.787952794, -4.510608839), (4.812627817, -4.533854553), (4.901271697, -4.64977162), (5.021269902, -4.856346629), (5.134031378, -5.128647877), (5.189661964, -5.30412568), (5.213717126, -5.391396269)],
                knots=[0, 0, 0, 0, 0.101700454, 0.434977009, 0.714423103, 0.984887496, 0.984887496, 0.984887496, 0.984887496], degree=3))
            ThreePointArc((4.787952794, -4.510608839), (4.722140325, -4.37146686), (4.772872434, -4.22614644))
            ThreePointArc((4.772872434, -4.22614644), (4.816270376, -4.176621201), (4.85915445, -4.12665034))
            ThreePointArc((4.85915445, -4.12665034), (4.995831199, -4.05586025), (5.142887492, -4.101315917))
            add(Edge.make_bspline(
                [(5.142887492, -4.101315917), (5.169391697, -4.122452315), (5.296688467, -4.193796806), (5.518168384, -4.283348187), (5.803688548, -4.356432769), (5.985273704, -4.386666071), (6.075070473, -4.398126732)],
                knots=[0, 0, 0, 0, 0.101700454, 0.434977009, 0.714423103, 0.984887496, 0.984887496, 0.984887496, 0.984887496], degree=3))
            ThreePointArc((6.075070473, -4.398126732), (6.180729275, -4.248362699), (6.282696886, -4.096061504))
            add(Edge.make_bspline(
                [(5.671613712, -3.332098731), (5.700842739, -3.349270916), (5.813058106, -3.442556582), (5.976014969, -3.617250211), (6.146542008, -3.85763251), (6.239825304, -4.016331748), (6.282696886, -4.096061504)],
                knots=[0, 0, 0, 0, 0.101700454, 0.434977009, 0.714423103, 0.984887496, 0.984887496, 0.984887496, 0.984887496], degree=3))
            ThreePointArc((5.671613712, -3.332098731), (5.576489296, -3.211089984), (5.59361261, -3.058124094))
            ThreePointArc((5.59361261, -3.058124094), (5.624902073, -3.000183606), (5.655591391, -2.941923014))
            ThreePointArc((5.655591391, -2.941923014), (5.773089092, -2.842494341), (5.926573213, -2.854087236))
            add(Edge.make_bspline(
                [(5.926573213, -2.854087236), (5.957116194, -2.86879596), (6.097097011, -2.9100255), (6.33295102, -2.948047723), (6.627575448, -2.955765708), (6.811335427, -2.9448345), (6.901431041, -2.936026156)],
                knots=[0, 0, 0, 0, 0.101700454, 0.434977009, 0.714423103, 0.984887496, 0.984887496, 0.984887496, 0.984887496], degree=3))
            ThreePointArc((6.901431041, -2.936026156), (6.971115124, -2.766505726), (7.036635989, -2.595333111))
            add(Edge.make_bspline(
                [(6.270876237, -1.986503278), (6.303193602, -1.996740851), (6.433353509, -2.062717382), (6.631097693, -2.196769764), (6.850839356, -2.393179341), (6.977097748, -2.527142172), (7.036635989, -2.595333111)],
                knots=[0, 0, 0, 0, 0.101700454, 0.434977009, 0.714423103, 0.984887496, 0.984887496, 0.984887496, 0.984887496], degree=3))
            ThreePointArc((6.270876237, -1.986503278), (6.151209809, -1.889695647), (6.133865693, -1.736754636))
            ThreePointArc((6.133865693, -1.736754636), (6.151477692, -1.673304276), (6.168433363, -1.609675384))
            ThreePointArc((6.168433363, -1.609675384), (6.26086019, -1.486593897), (6.413075806, -1.463742704))
            add(Edge.make_bspline(
                [(6.413075806, -1.463742704), (6.44612601, -1.471286197), (6.591771651, -1.480333363), (6.830173049, -1.464919836), (7.11912804, -1.406884212), (7.295848351, -1.35533663), (7.381725038, -1.32670097)],
                knots=[0, 0, 0, 0, 0.101700454, 0.434977009, 0.714423103, 0.984887496, 0.984887496, 0.984887496, 0.984887496], degree=3))
            ThreePointArc((7.381725038, -1.32670097), (7.411940151, -1.145924603), (7.437728781, -0.964463879))
            add(Edge.make_bspline(
                [(6.555690842, -0.541296257), (6.589476018, -0.544085862), (6.731053703, -0.57944492), (6.953669488, -0.666134108), (7.211607012, -0.808722167), (7.364509376, -0.911231134), (7.437728781, -0.964463879)],
                knots=[0, 0, 0, 0, 0.101700454, 0.434977009, 0.714423103, 0.984887496, 0.984887496, 0.984887496, 0.984887496], degree=3))
            ThreePointArc((6.555690842, -0.541296257), (6.417482977, -0.47354408), (6.366541137, -0.328297049))
            ThreePointArc((6.366541137, -0.328297049), (6.369592534, -0.262518483), (6.37196433, -0.196711908))
            ThreePointArc((6.37196433, -0.196711908), (6.434685616, -0.056149427), (6.578, 0))
            add(Edge.make_bspline(
                [(6.578, 0), (6.611900151, 0), (6.755907336, 0.023588869), (6.984901681, 0.091665249), (7.253697825, 0.212544333), (7.414516973, 0.302123478), (7.491868518, 0.349150543)],
                knots=[0, 0, 0, 0, 0.101700454, 0.434977009, 0.714423103, 0.984887496, 0.984887496, 0.984887496, 0.984887496], degree=3))
        make_face()
        Circle(ESQUISSE1_R, mode=Mode.SUBTRACT)
    extrude(amount=BOSS_EXTRU_1_DEPTH)

    # Esquisse2 → Enlèv. mat.-Extru.1 (cut)
    with BuildSketch(Plane.XY.offset(3)):
        Circle(ESQUISSE2_R)
    extrude(amount=-ENL_V_MAT_EXTRU_1_DEPTH, mode=Mode.SUBTRACT)

    # Esquisse3 → Boss.-Extru.2 (add)
    with BuildSketch(Plane.XY.offset(2)):
        with BuildLine():
            ThreePointArc((2.977310095, 0.368272455), (2.955741127, 0.513414445), (2.927100903, 0.657328154))
            add(Edge.make_bspline(
                [(2.211403727, 0.79214554), (2.222779445, 0.796220429), (2.274133198, 0.805614359), (2.359373738, 0.810478726), (2.538607422, 0.796225963), (2.732062921, 0.744216047), (2.878239296, 0.681280138), (2.927100903, 0.657328154)],
                knots=[0, 0, 0, 0, 0.036250587, 0.155621312, 0.255291203, 0.575254513, 0.744084786, 0.744084786, 0.744084786, 0.744084786], degree=3))
            add(Edge.make_bspline(
                [(2.211403727, 0.79214554), (2.132130324, 0.763749064), (1.99001212, 0.681956821), (1.750090704, 0.694113528), (1.707279056, 0.775127876)],
                knots=[0, 0, 0, 0, 0.252617676, 0.527509393, 0.527509393, 0.527509393, 0.527509393], degree=3))
            ThreePointArc((1.707279056, 0.775127876), (1.657764419, 0.876037746), (1.602292085, 0.973799299))
            add(Edge.make_bspline(
                [(1.90038092, 1.380707558), (1.832256922, 1.331212576), (1.684611138, 1.259880414), (1.559480437, 1.054813647), (1.602292085, 0.973799299)],
                knots=[0, 0, 0, 0, 0.252617676, 0.527509393, 0.527509393, 0.527509393, 0.527509393], degree=3))
            add(Edge.make_bspline(
                [(1.90038092, 1.380707558), (1.9101567, 1.387810078), (1.946851003, 1.424944725), (1.998895263, 1.49262786), (2.088102134, 1.648736761), (2.154127637, 1.837868182), (2.184488772, 1.994094501), (2.192229346, 2.04795764)],
                knots=[0, 0, 0, 0, 0.036250587, 0.155621312, 0.255291203, 0.575254513, 0.744084786, 0.744084786, 0.744084786, 0.744084786], degree=3))
            ThreePointArc((2.192229346, 2.04795764), (2.089467363, 2.152702055), (1.98170658, 2.25229639))
            add(Edge.make_bspline(
                [(1.32345173, 1.940689701), (1.33025972, 1.950672835), (1.366284165, 1.988457663), (1.432386008, 2.04249615), (1.585766668, 2.136316339), (1.772846116, 2.207949723), (1.928098087, 2.242953821), (1.98170658, 2.25229639)],
                knots=[0, 0, 0, 0, 0.036250587, 0.155621312, 0.255291203, 0.575254513, 0.744084786, 0.744084786, 0.744084786, 0.744084786], degree=3))
            add(Edge.make_bspline(
                [(1.32345173, 1.940689701), (1.27600923, 1.871120733), (1.209109462, 1.721414433), (1.007863426, 1.590227146), (0.925609036, 1.630605075)],
                knots=[0, 0, 0, 0, 0.252617676, 0.527509393, 0.527509393, 0.527509393, 0.527509393], degree=3))
            ThreePointArc((0.925609036, 1.630605075), (0.82623752, 1.683138901), (0.72389666, 1.729623839))
            add(Edge.make_bspline(
                [(0.72588092, 2.234031757), (0.699859868, 2.153947194), (0.622339913, 2.009454248), (0.641642271, 1.770001768), (0.72389666, 1.729623839)],
                knots=[0, 0, 0, 0, 0.252617676, 0.527509393, 0.527509393, 0.527509393, 0.527509393], degree=3))
            add(Edge.make_bspline(
                [(0.72588092, 2.234031757), (0.729614936, 2.245523876), (0.737474053, 2.297134806), (0.739795594, 2.382482461), (0.720206959, 2.561211698), (0.662454053, 2.753031049), (0.595189201, 2.897266624), (0.569791499, 2.945392614)],
                knots=[0, 0, 0, 0, 0.036250587, 0.155621312, 0.255291203, 0.575254513, 0.744084786, 0.744084786, 0.744084786, 0.744084786], degree=3))
            ThreePointArc((0.569791499, 2.945392614), (0.425088085, 2.969730648), (0.279367699, 2.986963958))
            add(Edge.make_bspline(
                [(-0.070013845, 2.347956359), (-0.070374004, 2.360034519), (-0.063438981, 2.411777724), (-0.041724492, 2.494349468), (0.027216945, 2.660406485), (0.136462351, 2.82832165), (0.241488941, 2.947895379), (0.279367699, 2.986963958)],
                knots=[0, 0, 0, 0, 0.036250587, 0.155621312, 0.255291203, 0.575254513, 0.744084786, 0.744084786, 0.744084786, 0.744084786], degree=3))
            add(Edge.make_bspline(
                [(-0.070013845, 2.347956359), (-0.06750402, 2.263787878), (-0.033631914, 2.103350241), (-0.119333425, 1.878928045), (-0.209612175, 1.863246558)],
                knots=[0, 0, 0, 0, 0.252617676, 0.527509393, 0.527509393, 0.527509393, 0.527509393], degree=3))
            ThreePointArc((-0.209612175, 1.863246558), (-0.320884028, 1.847338204), (-0.431002684, 1.824790861))
            add(Edge.make_bspline(
                [(-0.72588092, 2.234031757), (-0.699859868, 2.153947194), (-0.677644007, 1.991484859), (-0.521281435, 1.809109374), (-0.431002684, 1.824790861)],
                knots=[0, 0, 0, 0, 0.252617676, 0.527509393, 0.527509393, 0.527509393, 0.527509393], degree=3))
            add(Edge.make_bspline(
                [(-0.72588092, 2.234031757), (-0.729614936, 2.245523876), (-0.75359292, 2.291897469), (-0.801880846, 2.36230974), (-0.922782795, 2.495390819), (-1.082254463, 2.616629628), (-1.221452415, 2.693781371), (-1.270287335, 2.717787719)],
                knots=[0, 0, 0, 0, 0.036250587, 0.155621312, 0.255291203, 0.575254513, 0.744084786, 0.744084786, 0.744084786, 0.744084786], degree=3))
            ThreePointArc((-1.270287335, 2.717787719), (-1.401660393, 2.65242307), (-1.529680147, 2.580712818))
            add(Edge.make_bspline(
                [(-1.436736511, 1.858383491), (-1.44412725, 1.867943232), (-1.468930592, 1.913880668), (-1.499897654, 1.993446068), (-1.541728726, 2.168311777), (-1.552045394, 2.368370838), (-1.537360771, 2.526841097), (-1.529680147, 2.580712818)],
                knots=[0, 0, 0, 0, 0.036250587, 0.155621312, 0.255291203, 0.575254513, 0.744084786, 0.744084786, 0.744084786, 0.744084786], degree=3))
            add(Edge.make_bspline(
                [(-1.436736511, 1.858383491), (-1.385233029, 1.791764998), (-1.263527042, 1.681877747), (-1.200948963, 1.449942292), (-1.26476866, 1.384191185)],
                knots=[0, 0, 0, 0, 0.252617676, 0.527509393, 0.527509393, 0.527509393, 0.527509393], degree=3))
            ThreePointArc((-1.26476866, 1.384191185), (-1.345438785, 1.305917102), (-1.421273653, 1.222949796))
            add(Edge.make_bspline(
                [(-1.90038092, 1.380707558), (-1.832256922, 1.331212576), (-1.718790948, 1.212835941), (-1.48509335, 1.157198689), (-1.421273653, 1.222949796)],
                knots=[0, 0, 0, 0, 0.252617676, 0.527509393, 0.527509393, 0.527509393, 0.527509393], degree=3))
            add(Edge.make_bspline(
                [(-1.90038092, 1.380707558), (-1.9101567, 1.387810078), (-1.956813011, 1.411233197), (-2.037266059, 1.43981499), (-2.213300886, 1.476415463), (-2.413578559, 1.480764624), (-2.571540724, 1.461363192), (-2.625159582, 1.45208029)],
                knots=[0, 0, 0, 0, 0.036250587, 0.155621312, 0.255291203, 0.575254513, 0.744084786, 0.744084786, 0.744084786, 0.744084786], degree=3))
            ThreePointArc((-2.625159582, 1.45208029), (-2.693022242, 1.321980032), (-2.75444217, 1.188717096))
            add(Edge.make_bspline(
                [(-2.254674663, 0.658971294), (-2.266272971, 0.662361119), (-2.313340644, 0.684946248), (-2.385160892, 0.731114025), (-2.521786425, 0.847995669), (-2.64772455, 1.003782864), (-2.728990923, 1.140619401), (-2.75444217, 1.188717096)],
                knots=[0, 0, 0, 0, 0.036250587, 0.155621312, 0.255291203, 0.575254513, 0.744084786, 0.744084786, 0.744084786, 0.744084786], degree=3))
            add(Edge.make_bspline(
                [(-2.254674663, 0.658971294), (-2.173850103, 0.635348788), (-2.010797786, 0.617985118), (-1.823842817, 0.467127866), (-1.836826505, 0.376421826)],
                knots=[0, 0, 0, 0, 0.252617676, 0.527509393, 0.527509393, 0.527509393, 0.527509393], degree=3))
            ThreePointArc((-1.836826505, 0.376421826), (-1.856081655, 0.265680053), (-1.868666393, 0.153983476))
            add(Edge.make_bspline(
                [(-2.349, 0), (-2.264794108, 0), (-2.103418166, -0.029075083), (-1.881650081, 0.063277436), (-1.868666393, 0.153983476)],
                knots=[0, 0, 0, 0, 0.252617676, 0.527509393, 0.527509393, 0.527509393, 0.527509393], degree=3))
            add(Edge.make_bspline(
                [(-2.349, 0), (-2.361083529, 0), (-2.412597041, -0.00847419), (-2.494484881, -0.032640149), (-2.658413265, -0.106500419), (-2.822997679, -0.220702136), (-2.93938788, -0.329246056), (-2.977310095, -0.368272455)],
                knots=[0, 0, 0, 0, 0.036250587, 0.155621312, 0.255291203, 0.575254513, 0.744084786, 0.744084786, 0.744084786, 0.744084786], degree=3))
            ThreePointArc((-2.977310095, -0.368272455), (-2.955741127, -0.513414445), (-2.927100903, -0.657328154))
            add(Edge.make_bspline(
                [(-2.211403727, -0.79214554), (-2.222779445, -0.796220429), (-2.274133198, -0.805614359), (-2.359373738, -0.810478726), (-2.538607422, -0.796225963), (-2.732062921, -0.744216047), (-2.878239296, -0.681280138), (-2.927100903, -0.657328154)],
                knots=[0, 0, 0, 0, 0.036250587, 0.155621312, 0.255291203, 0.575254513, 0.744084786, 0.744084786, 0.744084786, 0.744084786], degree=3))
            add(Edge.make_bspline(
                [(-2.211403727, -0.79214554), (-2.132130324, -0.763749064), (-1.99001212, -0.681956821), (-1.750090704, -0.694113528), (-1.707279056, -0.775127876)],
                knots=[0, 0, 0, 0, 0.252617676, 0.527509393, 0.527509393, 0.527509393, 0.527509393], degree=3))
            ThreePointArc((-1.707279056, -0.775127876), (-1.657764419, -0.876037746), (-1.602292085, -0.973799299))
            add(Edge.make_bspline(
                [(-1.90038092, -1.380707558), (-1.832256922, -1.331212576), (-1.684611138, -1.259880414), (-1.559480437, -1.054813647), (-1.602292085, -0.973799299)],
                knots=[0, 0, 0, 0, 0.252617676, 0.527509393, 0.527509393, 0.527509393, 0.527509393], degree=3))
            add(Edge.make_bspline(
                [(-1.90038092, -1.380707558), (-1.9101567, -1.387810078), (-1.946851003, -1.424944725), (-1.998895263, -1.49262786), (-2.088102134, -1.648736761), (-2.154127637, -1.837868182), (-2.184488772, -1.994094501), (-2.192229346, -2.04795764)],
                knots=[0, 0, 0, 0, 0.036250587, 0.155621312, 0.255291203, 0.575254513, 0.744084786, 0.744084786, 0.744084786, 0.744084786], degree=3))
            ThreePointArc((-2.192229346, -2.04795764), (-2.089467363, -2.152702055), (-1.98170658, -2.25229639))
            add(Edge.make_bspline(
                [(-1.32345173, -1.940689701), (-1.33025972, -1.950672835), (-1.366284165, -1.988457663), (-1.432386008, -2.04249615), (-1.585766668, -2.136316339), (-1.772846116, -2.207949723), (-1.928098087, -2.242953821), (-1.98170658, -2.25229639)],
                knots=[0, 0, 0, 0, 0.036250587, 0.155621312, 0.255291203, 0.575254513, 0.744084786, 0.744084786, 0.744084786, 0.744084786], degree=3))
            add(Edge.make_bspline(
                [(-1.32345173, -1.940689701), (-1.27600923, -1.871120733), (-1.209109462, -1.721414433), (-1.007863426, -1.590227146), (-0.925609036, -1.630605075)],
                knots=[0, 0, 0, 0, 0.252617676, 0.527509393, 0.527509393, 0.527509393, 0.527509393], degree=3))
            ThreePointArc((-0.925609036, -1.630605075), (-0.82623752, -1.683138901), (-0.72389666, -1.729623839))
            add(Edge.make_bspline(
                [(-0.72588092, -2.234031757), (-0.699859868, -2.153947194), (-0.622339913, -2.009454248), (-0.641642271, -1.770001768), (-0.72389666, -1.729623839)],
                knots=[0, 0, 0, 0, 0.252617676, 0.527509393, 0.527509393, 0.527509393, 0.527509393], degree=3))
            add(Edge.make_bspline(
                [(-0.72588092, -2.234031757), (-0.729614936, -2.245523876), (-0.737474053, -2.297134806), (-0.739795594, -2.382482461), (-0.720206959, -2.561211698), (-0.662454053, -2.753031049), (-0.595189201, -2.897266624), (-0.569791499, -2.945392614)],
                knots=[0, 0, 0, 0, 0.036250587, 0.155621312, 0.255291203, 0.575254513, 0.744084786, 0.744084786, 0.744084786, 0.744084786], degree=3))
            ThreePointArc((-0.569791499, -2.945392614), (-0.425088085, -2.969730648), (-0.279367699, -2.986963958))
            add(Edge.make_bspline(
                [(0.070013845, -2.347956359), (0.070374004, -2.360034519), (0.063438981, -2.411777724), (0.041724492, -2.494349468), (-0.027216945, -2.660406485), (-0.136462351, -2.82832165), (-0.241488941, -2.947895379), (-0.279367699, -2.986963958)],
                knots=[0, 0, 0, 0, 0.036250587, 0.155621312, 0.255291203, 0.575254513, 0.744084786, 0.744084786, 0.744084786, 0.744084786], degree=3))
            add(Edge.make_bspline(
                [(0.070013845, -2.347956359), (0.06750402, -2.263787879), (0.033631914, -2.103350241), (0.119333425, -1.878928045), (0.209612175, -1.863246558)],
                knots=[0, 0, 0, 0, 0.252617676, 0.527509393, 0.527509393, 0.527509393, 0.527509393], degree=3))
            ThreePointArc((0.209612175, -1.863246558), (0.320884028, -1.847338204), (0.431002684, -1.824790861))
            add(Edge.make_bspline(
                [(0.72588092, -2.234031757), (0.699859868, -2.153947194), (0.677644007, -1.991484859), (0.521281435, -1.809109374), (0.431002684, -1.824790861)],
                knots=[0, 0, 0, 0, 0.252617676, 0.527509393, 0.527509393, 0.527509393, 0.527509393], degree=3))
            add(Edge.make_bspline(
                [(0.72588092, -2.234031757), (0.729614936, -2.245523876), (0.75359292, -2.291897469), (0.801880846, -2.36230974), (0.922782795, -2.495390819), (1.082254463, -2.616629628), (1.221452415, -2.693781371), (1.270287335, -2.717787719)],
                knots=[0, 0, 0, 0, 0.036250587, 0.155621312, 0.255291203, 0.575254513, 0.744084786, 0.744084786, 0.744084786, 0.744084786], degree=3))
            ThreePointArc((1.270287335, -2.717787719), (1.401660393, -2.65242307), (1.529680147, -2.580712818))
            add(Edge.make_bspline(
                [(1.436736511, -1.858383491), (1.44412725, -1.867943232), (1.468930592, -1.913880668), (1.499897654, -1.993446068), (1.541728726, -2.168311777), (1.552045394, -2.368370838), (1.537360771, -2.526841097), (1.529680147, -2.580712818)],
                knots=[0, 0, 0, 0, 0.036250587, 0.155621312, 0.255291203, 0.575254513, 0.744084786, 0.744084786, 0.744084786, 0.744084786], degree=3))
            add(Edge.make_bspline(
                [(1.436736511, -1.858383491), (1.385233029, -1.791764998), (1.263527042, -1.681877747), (1.200948963, -1.449942292), (1.26476866, -1.384191185)],
                knots=[0, 0, 0, 0, 0.252617676, 0.527509393, 0.527509393, 0.527509393, 0.527509393], degree=3))
            ThreePointArc((1.26476866, -1.384191185), (1.345438785, -1.305917102), (1.421273653, -1.222949796))
            add(Edge.make_bspline(
                [(1.90038092, -1.380707558), (1.832256922, -1.331212576), (1.718790948, -1.212835941), (1.48509335, -1.157198689), (1.421273653, -1.222949796)],
                knots=[0, 0, 0, 0, 0.252617676, 0.527509393, 0.527509393, 0.527509393, 0.527509393], degree=3))
            add(Edge.make_bspline(
                [(1.90038092, -1.380707558), (1.9101567, -1.387810078), (1.956813011, -1.411233197), (2.037266059, -1.43981499), (2.213300886, -1.476415463), (2.413578559, -1.480764624), (2.571540724, -1.461363192), (2.625159582, -1.45208029)],
                knots=[0, 0, 0, 0, 0.036250587, 0.155621312, 0.255291203, 0.575254513, 0.744084786, 0.744084786, 0.744084786, 0.744084786], degree=3))
            ThreePointArc((2.625159582, -1.45208029), (2.693022242, -1.321980032), (2.75444217, -1.188717096))
            add(Edge.make_bspline(
                [(2.254674663, -0.658971294), (2.266272971, -0.662361119), (2.313340644, -0.684946248), (2.385160892, -0.731114025), (2.521786425, -0.847995669), (2.64772455, -1.003782864), (2.728990923, -1.140619401), (2.75444217, -1.188717096)],
                knots=[0, 0, 0, 0, 0.036250587, 0.155621312, 0.255291203, 0.575254513, 0.744084786, 0.744084786, 0.744084786, 0.744084786], degree=3))
            add(Edge.make_bspline(
                [(2.254674663, -0.658971294), (2.173850103, -0.635348788), (2.010797786, -0.617985118), (1.823842817, -0.467127866), (1.836826505, -0.376421826)],
                knots=[0, 0, 0, 0, 0.252617676, 0.527509393, 0.527509393, 0.527509393, 0.527509393], degree=3))
            ThreePointArc((1.836826505, -0.376421826), (1.856081655, -0.265680053), (1.868666393, -0.153983476))
            add(Edge.make_bspline(
                [(2.349, 0), (2.264794108, 0), (2.103418166, 0.029075083), (1.881650081, -0.063277436), (1.868666393, -0.153983476)],
                knots=[0, 0, 0, 0, 0.252617676, 0.527509393, 0.527509393, 0.527509393, 0.527509393], degree=3))
            add(Edge.make_bspline(
                [(2.349, 0), (2.361083529, 0), (2.412597041, 0.00847419), (2.494484881, 0.032640149), (2.658413265, 0.106500419), (2.822997679, 0.220702136), (2.93938788, 0.329246056), (2.977310095, 0.368272455)],
                knots=[0, 0, 0, 0, 0.036250587, 0.155621312, 0.255291203, 0.575254513, 0.744084786, 0.744084786, 0.744084786, 0.744084786], degree=3))
        make_face()
        Circle(ESQUISSE3_R, mode=Mode.SUBTRACT)
    extrude(amount=BOSS_EXTRU_2_DEPTH)

    # Esquisse4 → Boss.-Extru.3 (add)
    with BuildSketch(Plane.XY.offset(3).offset(BOSS_EXTRU_3_START)):
        Circle(ESQUISSE4_R)
        Circle(ESQUISSE4_R_2, mode=Mode.SUBTRACT)
    extrude(amount=BOSS_EXTRU_3_DEPTH)

    # Esquisse5 → Boss.-Extru.4 (add)
    with BuildSketch(Plane.XY.offset(7).offset(BOSS_EXTRU_4_START)):
        Circle(ESQUISSE5_R)
        Circle(ESQUISSE5_R_2, mode=Mode.SUBTRACT)
    extrude(amount=BOSS_EXTRU_4_DEPTH)


solid = part.part
